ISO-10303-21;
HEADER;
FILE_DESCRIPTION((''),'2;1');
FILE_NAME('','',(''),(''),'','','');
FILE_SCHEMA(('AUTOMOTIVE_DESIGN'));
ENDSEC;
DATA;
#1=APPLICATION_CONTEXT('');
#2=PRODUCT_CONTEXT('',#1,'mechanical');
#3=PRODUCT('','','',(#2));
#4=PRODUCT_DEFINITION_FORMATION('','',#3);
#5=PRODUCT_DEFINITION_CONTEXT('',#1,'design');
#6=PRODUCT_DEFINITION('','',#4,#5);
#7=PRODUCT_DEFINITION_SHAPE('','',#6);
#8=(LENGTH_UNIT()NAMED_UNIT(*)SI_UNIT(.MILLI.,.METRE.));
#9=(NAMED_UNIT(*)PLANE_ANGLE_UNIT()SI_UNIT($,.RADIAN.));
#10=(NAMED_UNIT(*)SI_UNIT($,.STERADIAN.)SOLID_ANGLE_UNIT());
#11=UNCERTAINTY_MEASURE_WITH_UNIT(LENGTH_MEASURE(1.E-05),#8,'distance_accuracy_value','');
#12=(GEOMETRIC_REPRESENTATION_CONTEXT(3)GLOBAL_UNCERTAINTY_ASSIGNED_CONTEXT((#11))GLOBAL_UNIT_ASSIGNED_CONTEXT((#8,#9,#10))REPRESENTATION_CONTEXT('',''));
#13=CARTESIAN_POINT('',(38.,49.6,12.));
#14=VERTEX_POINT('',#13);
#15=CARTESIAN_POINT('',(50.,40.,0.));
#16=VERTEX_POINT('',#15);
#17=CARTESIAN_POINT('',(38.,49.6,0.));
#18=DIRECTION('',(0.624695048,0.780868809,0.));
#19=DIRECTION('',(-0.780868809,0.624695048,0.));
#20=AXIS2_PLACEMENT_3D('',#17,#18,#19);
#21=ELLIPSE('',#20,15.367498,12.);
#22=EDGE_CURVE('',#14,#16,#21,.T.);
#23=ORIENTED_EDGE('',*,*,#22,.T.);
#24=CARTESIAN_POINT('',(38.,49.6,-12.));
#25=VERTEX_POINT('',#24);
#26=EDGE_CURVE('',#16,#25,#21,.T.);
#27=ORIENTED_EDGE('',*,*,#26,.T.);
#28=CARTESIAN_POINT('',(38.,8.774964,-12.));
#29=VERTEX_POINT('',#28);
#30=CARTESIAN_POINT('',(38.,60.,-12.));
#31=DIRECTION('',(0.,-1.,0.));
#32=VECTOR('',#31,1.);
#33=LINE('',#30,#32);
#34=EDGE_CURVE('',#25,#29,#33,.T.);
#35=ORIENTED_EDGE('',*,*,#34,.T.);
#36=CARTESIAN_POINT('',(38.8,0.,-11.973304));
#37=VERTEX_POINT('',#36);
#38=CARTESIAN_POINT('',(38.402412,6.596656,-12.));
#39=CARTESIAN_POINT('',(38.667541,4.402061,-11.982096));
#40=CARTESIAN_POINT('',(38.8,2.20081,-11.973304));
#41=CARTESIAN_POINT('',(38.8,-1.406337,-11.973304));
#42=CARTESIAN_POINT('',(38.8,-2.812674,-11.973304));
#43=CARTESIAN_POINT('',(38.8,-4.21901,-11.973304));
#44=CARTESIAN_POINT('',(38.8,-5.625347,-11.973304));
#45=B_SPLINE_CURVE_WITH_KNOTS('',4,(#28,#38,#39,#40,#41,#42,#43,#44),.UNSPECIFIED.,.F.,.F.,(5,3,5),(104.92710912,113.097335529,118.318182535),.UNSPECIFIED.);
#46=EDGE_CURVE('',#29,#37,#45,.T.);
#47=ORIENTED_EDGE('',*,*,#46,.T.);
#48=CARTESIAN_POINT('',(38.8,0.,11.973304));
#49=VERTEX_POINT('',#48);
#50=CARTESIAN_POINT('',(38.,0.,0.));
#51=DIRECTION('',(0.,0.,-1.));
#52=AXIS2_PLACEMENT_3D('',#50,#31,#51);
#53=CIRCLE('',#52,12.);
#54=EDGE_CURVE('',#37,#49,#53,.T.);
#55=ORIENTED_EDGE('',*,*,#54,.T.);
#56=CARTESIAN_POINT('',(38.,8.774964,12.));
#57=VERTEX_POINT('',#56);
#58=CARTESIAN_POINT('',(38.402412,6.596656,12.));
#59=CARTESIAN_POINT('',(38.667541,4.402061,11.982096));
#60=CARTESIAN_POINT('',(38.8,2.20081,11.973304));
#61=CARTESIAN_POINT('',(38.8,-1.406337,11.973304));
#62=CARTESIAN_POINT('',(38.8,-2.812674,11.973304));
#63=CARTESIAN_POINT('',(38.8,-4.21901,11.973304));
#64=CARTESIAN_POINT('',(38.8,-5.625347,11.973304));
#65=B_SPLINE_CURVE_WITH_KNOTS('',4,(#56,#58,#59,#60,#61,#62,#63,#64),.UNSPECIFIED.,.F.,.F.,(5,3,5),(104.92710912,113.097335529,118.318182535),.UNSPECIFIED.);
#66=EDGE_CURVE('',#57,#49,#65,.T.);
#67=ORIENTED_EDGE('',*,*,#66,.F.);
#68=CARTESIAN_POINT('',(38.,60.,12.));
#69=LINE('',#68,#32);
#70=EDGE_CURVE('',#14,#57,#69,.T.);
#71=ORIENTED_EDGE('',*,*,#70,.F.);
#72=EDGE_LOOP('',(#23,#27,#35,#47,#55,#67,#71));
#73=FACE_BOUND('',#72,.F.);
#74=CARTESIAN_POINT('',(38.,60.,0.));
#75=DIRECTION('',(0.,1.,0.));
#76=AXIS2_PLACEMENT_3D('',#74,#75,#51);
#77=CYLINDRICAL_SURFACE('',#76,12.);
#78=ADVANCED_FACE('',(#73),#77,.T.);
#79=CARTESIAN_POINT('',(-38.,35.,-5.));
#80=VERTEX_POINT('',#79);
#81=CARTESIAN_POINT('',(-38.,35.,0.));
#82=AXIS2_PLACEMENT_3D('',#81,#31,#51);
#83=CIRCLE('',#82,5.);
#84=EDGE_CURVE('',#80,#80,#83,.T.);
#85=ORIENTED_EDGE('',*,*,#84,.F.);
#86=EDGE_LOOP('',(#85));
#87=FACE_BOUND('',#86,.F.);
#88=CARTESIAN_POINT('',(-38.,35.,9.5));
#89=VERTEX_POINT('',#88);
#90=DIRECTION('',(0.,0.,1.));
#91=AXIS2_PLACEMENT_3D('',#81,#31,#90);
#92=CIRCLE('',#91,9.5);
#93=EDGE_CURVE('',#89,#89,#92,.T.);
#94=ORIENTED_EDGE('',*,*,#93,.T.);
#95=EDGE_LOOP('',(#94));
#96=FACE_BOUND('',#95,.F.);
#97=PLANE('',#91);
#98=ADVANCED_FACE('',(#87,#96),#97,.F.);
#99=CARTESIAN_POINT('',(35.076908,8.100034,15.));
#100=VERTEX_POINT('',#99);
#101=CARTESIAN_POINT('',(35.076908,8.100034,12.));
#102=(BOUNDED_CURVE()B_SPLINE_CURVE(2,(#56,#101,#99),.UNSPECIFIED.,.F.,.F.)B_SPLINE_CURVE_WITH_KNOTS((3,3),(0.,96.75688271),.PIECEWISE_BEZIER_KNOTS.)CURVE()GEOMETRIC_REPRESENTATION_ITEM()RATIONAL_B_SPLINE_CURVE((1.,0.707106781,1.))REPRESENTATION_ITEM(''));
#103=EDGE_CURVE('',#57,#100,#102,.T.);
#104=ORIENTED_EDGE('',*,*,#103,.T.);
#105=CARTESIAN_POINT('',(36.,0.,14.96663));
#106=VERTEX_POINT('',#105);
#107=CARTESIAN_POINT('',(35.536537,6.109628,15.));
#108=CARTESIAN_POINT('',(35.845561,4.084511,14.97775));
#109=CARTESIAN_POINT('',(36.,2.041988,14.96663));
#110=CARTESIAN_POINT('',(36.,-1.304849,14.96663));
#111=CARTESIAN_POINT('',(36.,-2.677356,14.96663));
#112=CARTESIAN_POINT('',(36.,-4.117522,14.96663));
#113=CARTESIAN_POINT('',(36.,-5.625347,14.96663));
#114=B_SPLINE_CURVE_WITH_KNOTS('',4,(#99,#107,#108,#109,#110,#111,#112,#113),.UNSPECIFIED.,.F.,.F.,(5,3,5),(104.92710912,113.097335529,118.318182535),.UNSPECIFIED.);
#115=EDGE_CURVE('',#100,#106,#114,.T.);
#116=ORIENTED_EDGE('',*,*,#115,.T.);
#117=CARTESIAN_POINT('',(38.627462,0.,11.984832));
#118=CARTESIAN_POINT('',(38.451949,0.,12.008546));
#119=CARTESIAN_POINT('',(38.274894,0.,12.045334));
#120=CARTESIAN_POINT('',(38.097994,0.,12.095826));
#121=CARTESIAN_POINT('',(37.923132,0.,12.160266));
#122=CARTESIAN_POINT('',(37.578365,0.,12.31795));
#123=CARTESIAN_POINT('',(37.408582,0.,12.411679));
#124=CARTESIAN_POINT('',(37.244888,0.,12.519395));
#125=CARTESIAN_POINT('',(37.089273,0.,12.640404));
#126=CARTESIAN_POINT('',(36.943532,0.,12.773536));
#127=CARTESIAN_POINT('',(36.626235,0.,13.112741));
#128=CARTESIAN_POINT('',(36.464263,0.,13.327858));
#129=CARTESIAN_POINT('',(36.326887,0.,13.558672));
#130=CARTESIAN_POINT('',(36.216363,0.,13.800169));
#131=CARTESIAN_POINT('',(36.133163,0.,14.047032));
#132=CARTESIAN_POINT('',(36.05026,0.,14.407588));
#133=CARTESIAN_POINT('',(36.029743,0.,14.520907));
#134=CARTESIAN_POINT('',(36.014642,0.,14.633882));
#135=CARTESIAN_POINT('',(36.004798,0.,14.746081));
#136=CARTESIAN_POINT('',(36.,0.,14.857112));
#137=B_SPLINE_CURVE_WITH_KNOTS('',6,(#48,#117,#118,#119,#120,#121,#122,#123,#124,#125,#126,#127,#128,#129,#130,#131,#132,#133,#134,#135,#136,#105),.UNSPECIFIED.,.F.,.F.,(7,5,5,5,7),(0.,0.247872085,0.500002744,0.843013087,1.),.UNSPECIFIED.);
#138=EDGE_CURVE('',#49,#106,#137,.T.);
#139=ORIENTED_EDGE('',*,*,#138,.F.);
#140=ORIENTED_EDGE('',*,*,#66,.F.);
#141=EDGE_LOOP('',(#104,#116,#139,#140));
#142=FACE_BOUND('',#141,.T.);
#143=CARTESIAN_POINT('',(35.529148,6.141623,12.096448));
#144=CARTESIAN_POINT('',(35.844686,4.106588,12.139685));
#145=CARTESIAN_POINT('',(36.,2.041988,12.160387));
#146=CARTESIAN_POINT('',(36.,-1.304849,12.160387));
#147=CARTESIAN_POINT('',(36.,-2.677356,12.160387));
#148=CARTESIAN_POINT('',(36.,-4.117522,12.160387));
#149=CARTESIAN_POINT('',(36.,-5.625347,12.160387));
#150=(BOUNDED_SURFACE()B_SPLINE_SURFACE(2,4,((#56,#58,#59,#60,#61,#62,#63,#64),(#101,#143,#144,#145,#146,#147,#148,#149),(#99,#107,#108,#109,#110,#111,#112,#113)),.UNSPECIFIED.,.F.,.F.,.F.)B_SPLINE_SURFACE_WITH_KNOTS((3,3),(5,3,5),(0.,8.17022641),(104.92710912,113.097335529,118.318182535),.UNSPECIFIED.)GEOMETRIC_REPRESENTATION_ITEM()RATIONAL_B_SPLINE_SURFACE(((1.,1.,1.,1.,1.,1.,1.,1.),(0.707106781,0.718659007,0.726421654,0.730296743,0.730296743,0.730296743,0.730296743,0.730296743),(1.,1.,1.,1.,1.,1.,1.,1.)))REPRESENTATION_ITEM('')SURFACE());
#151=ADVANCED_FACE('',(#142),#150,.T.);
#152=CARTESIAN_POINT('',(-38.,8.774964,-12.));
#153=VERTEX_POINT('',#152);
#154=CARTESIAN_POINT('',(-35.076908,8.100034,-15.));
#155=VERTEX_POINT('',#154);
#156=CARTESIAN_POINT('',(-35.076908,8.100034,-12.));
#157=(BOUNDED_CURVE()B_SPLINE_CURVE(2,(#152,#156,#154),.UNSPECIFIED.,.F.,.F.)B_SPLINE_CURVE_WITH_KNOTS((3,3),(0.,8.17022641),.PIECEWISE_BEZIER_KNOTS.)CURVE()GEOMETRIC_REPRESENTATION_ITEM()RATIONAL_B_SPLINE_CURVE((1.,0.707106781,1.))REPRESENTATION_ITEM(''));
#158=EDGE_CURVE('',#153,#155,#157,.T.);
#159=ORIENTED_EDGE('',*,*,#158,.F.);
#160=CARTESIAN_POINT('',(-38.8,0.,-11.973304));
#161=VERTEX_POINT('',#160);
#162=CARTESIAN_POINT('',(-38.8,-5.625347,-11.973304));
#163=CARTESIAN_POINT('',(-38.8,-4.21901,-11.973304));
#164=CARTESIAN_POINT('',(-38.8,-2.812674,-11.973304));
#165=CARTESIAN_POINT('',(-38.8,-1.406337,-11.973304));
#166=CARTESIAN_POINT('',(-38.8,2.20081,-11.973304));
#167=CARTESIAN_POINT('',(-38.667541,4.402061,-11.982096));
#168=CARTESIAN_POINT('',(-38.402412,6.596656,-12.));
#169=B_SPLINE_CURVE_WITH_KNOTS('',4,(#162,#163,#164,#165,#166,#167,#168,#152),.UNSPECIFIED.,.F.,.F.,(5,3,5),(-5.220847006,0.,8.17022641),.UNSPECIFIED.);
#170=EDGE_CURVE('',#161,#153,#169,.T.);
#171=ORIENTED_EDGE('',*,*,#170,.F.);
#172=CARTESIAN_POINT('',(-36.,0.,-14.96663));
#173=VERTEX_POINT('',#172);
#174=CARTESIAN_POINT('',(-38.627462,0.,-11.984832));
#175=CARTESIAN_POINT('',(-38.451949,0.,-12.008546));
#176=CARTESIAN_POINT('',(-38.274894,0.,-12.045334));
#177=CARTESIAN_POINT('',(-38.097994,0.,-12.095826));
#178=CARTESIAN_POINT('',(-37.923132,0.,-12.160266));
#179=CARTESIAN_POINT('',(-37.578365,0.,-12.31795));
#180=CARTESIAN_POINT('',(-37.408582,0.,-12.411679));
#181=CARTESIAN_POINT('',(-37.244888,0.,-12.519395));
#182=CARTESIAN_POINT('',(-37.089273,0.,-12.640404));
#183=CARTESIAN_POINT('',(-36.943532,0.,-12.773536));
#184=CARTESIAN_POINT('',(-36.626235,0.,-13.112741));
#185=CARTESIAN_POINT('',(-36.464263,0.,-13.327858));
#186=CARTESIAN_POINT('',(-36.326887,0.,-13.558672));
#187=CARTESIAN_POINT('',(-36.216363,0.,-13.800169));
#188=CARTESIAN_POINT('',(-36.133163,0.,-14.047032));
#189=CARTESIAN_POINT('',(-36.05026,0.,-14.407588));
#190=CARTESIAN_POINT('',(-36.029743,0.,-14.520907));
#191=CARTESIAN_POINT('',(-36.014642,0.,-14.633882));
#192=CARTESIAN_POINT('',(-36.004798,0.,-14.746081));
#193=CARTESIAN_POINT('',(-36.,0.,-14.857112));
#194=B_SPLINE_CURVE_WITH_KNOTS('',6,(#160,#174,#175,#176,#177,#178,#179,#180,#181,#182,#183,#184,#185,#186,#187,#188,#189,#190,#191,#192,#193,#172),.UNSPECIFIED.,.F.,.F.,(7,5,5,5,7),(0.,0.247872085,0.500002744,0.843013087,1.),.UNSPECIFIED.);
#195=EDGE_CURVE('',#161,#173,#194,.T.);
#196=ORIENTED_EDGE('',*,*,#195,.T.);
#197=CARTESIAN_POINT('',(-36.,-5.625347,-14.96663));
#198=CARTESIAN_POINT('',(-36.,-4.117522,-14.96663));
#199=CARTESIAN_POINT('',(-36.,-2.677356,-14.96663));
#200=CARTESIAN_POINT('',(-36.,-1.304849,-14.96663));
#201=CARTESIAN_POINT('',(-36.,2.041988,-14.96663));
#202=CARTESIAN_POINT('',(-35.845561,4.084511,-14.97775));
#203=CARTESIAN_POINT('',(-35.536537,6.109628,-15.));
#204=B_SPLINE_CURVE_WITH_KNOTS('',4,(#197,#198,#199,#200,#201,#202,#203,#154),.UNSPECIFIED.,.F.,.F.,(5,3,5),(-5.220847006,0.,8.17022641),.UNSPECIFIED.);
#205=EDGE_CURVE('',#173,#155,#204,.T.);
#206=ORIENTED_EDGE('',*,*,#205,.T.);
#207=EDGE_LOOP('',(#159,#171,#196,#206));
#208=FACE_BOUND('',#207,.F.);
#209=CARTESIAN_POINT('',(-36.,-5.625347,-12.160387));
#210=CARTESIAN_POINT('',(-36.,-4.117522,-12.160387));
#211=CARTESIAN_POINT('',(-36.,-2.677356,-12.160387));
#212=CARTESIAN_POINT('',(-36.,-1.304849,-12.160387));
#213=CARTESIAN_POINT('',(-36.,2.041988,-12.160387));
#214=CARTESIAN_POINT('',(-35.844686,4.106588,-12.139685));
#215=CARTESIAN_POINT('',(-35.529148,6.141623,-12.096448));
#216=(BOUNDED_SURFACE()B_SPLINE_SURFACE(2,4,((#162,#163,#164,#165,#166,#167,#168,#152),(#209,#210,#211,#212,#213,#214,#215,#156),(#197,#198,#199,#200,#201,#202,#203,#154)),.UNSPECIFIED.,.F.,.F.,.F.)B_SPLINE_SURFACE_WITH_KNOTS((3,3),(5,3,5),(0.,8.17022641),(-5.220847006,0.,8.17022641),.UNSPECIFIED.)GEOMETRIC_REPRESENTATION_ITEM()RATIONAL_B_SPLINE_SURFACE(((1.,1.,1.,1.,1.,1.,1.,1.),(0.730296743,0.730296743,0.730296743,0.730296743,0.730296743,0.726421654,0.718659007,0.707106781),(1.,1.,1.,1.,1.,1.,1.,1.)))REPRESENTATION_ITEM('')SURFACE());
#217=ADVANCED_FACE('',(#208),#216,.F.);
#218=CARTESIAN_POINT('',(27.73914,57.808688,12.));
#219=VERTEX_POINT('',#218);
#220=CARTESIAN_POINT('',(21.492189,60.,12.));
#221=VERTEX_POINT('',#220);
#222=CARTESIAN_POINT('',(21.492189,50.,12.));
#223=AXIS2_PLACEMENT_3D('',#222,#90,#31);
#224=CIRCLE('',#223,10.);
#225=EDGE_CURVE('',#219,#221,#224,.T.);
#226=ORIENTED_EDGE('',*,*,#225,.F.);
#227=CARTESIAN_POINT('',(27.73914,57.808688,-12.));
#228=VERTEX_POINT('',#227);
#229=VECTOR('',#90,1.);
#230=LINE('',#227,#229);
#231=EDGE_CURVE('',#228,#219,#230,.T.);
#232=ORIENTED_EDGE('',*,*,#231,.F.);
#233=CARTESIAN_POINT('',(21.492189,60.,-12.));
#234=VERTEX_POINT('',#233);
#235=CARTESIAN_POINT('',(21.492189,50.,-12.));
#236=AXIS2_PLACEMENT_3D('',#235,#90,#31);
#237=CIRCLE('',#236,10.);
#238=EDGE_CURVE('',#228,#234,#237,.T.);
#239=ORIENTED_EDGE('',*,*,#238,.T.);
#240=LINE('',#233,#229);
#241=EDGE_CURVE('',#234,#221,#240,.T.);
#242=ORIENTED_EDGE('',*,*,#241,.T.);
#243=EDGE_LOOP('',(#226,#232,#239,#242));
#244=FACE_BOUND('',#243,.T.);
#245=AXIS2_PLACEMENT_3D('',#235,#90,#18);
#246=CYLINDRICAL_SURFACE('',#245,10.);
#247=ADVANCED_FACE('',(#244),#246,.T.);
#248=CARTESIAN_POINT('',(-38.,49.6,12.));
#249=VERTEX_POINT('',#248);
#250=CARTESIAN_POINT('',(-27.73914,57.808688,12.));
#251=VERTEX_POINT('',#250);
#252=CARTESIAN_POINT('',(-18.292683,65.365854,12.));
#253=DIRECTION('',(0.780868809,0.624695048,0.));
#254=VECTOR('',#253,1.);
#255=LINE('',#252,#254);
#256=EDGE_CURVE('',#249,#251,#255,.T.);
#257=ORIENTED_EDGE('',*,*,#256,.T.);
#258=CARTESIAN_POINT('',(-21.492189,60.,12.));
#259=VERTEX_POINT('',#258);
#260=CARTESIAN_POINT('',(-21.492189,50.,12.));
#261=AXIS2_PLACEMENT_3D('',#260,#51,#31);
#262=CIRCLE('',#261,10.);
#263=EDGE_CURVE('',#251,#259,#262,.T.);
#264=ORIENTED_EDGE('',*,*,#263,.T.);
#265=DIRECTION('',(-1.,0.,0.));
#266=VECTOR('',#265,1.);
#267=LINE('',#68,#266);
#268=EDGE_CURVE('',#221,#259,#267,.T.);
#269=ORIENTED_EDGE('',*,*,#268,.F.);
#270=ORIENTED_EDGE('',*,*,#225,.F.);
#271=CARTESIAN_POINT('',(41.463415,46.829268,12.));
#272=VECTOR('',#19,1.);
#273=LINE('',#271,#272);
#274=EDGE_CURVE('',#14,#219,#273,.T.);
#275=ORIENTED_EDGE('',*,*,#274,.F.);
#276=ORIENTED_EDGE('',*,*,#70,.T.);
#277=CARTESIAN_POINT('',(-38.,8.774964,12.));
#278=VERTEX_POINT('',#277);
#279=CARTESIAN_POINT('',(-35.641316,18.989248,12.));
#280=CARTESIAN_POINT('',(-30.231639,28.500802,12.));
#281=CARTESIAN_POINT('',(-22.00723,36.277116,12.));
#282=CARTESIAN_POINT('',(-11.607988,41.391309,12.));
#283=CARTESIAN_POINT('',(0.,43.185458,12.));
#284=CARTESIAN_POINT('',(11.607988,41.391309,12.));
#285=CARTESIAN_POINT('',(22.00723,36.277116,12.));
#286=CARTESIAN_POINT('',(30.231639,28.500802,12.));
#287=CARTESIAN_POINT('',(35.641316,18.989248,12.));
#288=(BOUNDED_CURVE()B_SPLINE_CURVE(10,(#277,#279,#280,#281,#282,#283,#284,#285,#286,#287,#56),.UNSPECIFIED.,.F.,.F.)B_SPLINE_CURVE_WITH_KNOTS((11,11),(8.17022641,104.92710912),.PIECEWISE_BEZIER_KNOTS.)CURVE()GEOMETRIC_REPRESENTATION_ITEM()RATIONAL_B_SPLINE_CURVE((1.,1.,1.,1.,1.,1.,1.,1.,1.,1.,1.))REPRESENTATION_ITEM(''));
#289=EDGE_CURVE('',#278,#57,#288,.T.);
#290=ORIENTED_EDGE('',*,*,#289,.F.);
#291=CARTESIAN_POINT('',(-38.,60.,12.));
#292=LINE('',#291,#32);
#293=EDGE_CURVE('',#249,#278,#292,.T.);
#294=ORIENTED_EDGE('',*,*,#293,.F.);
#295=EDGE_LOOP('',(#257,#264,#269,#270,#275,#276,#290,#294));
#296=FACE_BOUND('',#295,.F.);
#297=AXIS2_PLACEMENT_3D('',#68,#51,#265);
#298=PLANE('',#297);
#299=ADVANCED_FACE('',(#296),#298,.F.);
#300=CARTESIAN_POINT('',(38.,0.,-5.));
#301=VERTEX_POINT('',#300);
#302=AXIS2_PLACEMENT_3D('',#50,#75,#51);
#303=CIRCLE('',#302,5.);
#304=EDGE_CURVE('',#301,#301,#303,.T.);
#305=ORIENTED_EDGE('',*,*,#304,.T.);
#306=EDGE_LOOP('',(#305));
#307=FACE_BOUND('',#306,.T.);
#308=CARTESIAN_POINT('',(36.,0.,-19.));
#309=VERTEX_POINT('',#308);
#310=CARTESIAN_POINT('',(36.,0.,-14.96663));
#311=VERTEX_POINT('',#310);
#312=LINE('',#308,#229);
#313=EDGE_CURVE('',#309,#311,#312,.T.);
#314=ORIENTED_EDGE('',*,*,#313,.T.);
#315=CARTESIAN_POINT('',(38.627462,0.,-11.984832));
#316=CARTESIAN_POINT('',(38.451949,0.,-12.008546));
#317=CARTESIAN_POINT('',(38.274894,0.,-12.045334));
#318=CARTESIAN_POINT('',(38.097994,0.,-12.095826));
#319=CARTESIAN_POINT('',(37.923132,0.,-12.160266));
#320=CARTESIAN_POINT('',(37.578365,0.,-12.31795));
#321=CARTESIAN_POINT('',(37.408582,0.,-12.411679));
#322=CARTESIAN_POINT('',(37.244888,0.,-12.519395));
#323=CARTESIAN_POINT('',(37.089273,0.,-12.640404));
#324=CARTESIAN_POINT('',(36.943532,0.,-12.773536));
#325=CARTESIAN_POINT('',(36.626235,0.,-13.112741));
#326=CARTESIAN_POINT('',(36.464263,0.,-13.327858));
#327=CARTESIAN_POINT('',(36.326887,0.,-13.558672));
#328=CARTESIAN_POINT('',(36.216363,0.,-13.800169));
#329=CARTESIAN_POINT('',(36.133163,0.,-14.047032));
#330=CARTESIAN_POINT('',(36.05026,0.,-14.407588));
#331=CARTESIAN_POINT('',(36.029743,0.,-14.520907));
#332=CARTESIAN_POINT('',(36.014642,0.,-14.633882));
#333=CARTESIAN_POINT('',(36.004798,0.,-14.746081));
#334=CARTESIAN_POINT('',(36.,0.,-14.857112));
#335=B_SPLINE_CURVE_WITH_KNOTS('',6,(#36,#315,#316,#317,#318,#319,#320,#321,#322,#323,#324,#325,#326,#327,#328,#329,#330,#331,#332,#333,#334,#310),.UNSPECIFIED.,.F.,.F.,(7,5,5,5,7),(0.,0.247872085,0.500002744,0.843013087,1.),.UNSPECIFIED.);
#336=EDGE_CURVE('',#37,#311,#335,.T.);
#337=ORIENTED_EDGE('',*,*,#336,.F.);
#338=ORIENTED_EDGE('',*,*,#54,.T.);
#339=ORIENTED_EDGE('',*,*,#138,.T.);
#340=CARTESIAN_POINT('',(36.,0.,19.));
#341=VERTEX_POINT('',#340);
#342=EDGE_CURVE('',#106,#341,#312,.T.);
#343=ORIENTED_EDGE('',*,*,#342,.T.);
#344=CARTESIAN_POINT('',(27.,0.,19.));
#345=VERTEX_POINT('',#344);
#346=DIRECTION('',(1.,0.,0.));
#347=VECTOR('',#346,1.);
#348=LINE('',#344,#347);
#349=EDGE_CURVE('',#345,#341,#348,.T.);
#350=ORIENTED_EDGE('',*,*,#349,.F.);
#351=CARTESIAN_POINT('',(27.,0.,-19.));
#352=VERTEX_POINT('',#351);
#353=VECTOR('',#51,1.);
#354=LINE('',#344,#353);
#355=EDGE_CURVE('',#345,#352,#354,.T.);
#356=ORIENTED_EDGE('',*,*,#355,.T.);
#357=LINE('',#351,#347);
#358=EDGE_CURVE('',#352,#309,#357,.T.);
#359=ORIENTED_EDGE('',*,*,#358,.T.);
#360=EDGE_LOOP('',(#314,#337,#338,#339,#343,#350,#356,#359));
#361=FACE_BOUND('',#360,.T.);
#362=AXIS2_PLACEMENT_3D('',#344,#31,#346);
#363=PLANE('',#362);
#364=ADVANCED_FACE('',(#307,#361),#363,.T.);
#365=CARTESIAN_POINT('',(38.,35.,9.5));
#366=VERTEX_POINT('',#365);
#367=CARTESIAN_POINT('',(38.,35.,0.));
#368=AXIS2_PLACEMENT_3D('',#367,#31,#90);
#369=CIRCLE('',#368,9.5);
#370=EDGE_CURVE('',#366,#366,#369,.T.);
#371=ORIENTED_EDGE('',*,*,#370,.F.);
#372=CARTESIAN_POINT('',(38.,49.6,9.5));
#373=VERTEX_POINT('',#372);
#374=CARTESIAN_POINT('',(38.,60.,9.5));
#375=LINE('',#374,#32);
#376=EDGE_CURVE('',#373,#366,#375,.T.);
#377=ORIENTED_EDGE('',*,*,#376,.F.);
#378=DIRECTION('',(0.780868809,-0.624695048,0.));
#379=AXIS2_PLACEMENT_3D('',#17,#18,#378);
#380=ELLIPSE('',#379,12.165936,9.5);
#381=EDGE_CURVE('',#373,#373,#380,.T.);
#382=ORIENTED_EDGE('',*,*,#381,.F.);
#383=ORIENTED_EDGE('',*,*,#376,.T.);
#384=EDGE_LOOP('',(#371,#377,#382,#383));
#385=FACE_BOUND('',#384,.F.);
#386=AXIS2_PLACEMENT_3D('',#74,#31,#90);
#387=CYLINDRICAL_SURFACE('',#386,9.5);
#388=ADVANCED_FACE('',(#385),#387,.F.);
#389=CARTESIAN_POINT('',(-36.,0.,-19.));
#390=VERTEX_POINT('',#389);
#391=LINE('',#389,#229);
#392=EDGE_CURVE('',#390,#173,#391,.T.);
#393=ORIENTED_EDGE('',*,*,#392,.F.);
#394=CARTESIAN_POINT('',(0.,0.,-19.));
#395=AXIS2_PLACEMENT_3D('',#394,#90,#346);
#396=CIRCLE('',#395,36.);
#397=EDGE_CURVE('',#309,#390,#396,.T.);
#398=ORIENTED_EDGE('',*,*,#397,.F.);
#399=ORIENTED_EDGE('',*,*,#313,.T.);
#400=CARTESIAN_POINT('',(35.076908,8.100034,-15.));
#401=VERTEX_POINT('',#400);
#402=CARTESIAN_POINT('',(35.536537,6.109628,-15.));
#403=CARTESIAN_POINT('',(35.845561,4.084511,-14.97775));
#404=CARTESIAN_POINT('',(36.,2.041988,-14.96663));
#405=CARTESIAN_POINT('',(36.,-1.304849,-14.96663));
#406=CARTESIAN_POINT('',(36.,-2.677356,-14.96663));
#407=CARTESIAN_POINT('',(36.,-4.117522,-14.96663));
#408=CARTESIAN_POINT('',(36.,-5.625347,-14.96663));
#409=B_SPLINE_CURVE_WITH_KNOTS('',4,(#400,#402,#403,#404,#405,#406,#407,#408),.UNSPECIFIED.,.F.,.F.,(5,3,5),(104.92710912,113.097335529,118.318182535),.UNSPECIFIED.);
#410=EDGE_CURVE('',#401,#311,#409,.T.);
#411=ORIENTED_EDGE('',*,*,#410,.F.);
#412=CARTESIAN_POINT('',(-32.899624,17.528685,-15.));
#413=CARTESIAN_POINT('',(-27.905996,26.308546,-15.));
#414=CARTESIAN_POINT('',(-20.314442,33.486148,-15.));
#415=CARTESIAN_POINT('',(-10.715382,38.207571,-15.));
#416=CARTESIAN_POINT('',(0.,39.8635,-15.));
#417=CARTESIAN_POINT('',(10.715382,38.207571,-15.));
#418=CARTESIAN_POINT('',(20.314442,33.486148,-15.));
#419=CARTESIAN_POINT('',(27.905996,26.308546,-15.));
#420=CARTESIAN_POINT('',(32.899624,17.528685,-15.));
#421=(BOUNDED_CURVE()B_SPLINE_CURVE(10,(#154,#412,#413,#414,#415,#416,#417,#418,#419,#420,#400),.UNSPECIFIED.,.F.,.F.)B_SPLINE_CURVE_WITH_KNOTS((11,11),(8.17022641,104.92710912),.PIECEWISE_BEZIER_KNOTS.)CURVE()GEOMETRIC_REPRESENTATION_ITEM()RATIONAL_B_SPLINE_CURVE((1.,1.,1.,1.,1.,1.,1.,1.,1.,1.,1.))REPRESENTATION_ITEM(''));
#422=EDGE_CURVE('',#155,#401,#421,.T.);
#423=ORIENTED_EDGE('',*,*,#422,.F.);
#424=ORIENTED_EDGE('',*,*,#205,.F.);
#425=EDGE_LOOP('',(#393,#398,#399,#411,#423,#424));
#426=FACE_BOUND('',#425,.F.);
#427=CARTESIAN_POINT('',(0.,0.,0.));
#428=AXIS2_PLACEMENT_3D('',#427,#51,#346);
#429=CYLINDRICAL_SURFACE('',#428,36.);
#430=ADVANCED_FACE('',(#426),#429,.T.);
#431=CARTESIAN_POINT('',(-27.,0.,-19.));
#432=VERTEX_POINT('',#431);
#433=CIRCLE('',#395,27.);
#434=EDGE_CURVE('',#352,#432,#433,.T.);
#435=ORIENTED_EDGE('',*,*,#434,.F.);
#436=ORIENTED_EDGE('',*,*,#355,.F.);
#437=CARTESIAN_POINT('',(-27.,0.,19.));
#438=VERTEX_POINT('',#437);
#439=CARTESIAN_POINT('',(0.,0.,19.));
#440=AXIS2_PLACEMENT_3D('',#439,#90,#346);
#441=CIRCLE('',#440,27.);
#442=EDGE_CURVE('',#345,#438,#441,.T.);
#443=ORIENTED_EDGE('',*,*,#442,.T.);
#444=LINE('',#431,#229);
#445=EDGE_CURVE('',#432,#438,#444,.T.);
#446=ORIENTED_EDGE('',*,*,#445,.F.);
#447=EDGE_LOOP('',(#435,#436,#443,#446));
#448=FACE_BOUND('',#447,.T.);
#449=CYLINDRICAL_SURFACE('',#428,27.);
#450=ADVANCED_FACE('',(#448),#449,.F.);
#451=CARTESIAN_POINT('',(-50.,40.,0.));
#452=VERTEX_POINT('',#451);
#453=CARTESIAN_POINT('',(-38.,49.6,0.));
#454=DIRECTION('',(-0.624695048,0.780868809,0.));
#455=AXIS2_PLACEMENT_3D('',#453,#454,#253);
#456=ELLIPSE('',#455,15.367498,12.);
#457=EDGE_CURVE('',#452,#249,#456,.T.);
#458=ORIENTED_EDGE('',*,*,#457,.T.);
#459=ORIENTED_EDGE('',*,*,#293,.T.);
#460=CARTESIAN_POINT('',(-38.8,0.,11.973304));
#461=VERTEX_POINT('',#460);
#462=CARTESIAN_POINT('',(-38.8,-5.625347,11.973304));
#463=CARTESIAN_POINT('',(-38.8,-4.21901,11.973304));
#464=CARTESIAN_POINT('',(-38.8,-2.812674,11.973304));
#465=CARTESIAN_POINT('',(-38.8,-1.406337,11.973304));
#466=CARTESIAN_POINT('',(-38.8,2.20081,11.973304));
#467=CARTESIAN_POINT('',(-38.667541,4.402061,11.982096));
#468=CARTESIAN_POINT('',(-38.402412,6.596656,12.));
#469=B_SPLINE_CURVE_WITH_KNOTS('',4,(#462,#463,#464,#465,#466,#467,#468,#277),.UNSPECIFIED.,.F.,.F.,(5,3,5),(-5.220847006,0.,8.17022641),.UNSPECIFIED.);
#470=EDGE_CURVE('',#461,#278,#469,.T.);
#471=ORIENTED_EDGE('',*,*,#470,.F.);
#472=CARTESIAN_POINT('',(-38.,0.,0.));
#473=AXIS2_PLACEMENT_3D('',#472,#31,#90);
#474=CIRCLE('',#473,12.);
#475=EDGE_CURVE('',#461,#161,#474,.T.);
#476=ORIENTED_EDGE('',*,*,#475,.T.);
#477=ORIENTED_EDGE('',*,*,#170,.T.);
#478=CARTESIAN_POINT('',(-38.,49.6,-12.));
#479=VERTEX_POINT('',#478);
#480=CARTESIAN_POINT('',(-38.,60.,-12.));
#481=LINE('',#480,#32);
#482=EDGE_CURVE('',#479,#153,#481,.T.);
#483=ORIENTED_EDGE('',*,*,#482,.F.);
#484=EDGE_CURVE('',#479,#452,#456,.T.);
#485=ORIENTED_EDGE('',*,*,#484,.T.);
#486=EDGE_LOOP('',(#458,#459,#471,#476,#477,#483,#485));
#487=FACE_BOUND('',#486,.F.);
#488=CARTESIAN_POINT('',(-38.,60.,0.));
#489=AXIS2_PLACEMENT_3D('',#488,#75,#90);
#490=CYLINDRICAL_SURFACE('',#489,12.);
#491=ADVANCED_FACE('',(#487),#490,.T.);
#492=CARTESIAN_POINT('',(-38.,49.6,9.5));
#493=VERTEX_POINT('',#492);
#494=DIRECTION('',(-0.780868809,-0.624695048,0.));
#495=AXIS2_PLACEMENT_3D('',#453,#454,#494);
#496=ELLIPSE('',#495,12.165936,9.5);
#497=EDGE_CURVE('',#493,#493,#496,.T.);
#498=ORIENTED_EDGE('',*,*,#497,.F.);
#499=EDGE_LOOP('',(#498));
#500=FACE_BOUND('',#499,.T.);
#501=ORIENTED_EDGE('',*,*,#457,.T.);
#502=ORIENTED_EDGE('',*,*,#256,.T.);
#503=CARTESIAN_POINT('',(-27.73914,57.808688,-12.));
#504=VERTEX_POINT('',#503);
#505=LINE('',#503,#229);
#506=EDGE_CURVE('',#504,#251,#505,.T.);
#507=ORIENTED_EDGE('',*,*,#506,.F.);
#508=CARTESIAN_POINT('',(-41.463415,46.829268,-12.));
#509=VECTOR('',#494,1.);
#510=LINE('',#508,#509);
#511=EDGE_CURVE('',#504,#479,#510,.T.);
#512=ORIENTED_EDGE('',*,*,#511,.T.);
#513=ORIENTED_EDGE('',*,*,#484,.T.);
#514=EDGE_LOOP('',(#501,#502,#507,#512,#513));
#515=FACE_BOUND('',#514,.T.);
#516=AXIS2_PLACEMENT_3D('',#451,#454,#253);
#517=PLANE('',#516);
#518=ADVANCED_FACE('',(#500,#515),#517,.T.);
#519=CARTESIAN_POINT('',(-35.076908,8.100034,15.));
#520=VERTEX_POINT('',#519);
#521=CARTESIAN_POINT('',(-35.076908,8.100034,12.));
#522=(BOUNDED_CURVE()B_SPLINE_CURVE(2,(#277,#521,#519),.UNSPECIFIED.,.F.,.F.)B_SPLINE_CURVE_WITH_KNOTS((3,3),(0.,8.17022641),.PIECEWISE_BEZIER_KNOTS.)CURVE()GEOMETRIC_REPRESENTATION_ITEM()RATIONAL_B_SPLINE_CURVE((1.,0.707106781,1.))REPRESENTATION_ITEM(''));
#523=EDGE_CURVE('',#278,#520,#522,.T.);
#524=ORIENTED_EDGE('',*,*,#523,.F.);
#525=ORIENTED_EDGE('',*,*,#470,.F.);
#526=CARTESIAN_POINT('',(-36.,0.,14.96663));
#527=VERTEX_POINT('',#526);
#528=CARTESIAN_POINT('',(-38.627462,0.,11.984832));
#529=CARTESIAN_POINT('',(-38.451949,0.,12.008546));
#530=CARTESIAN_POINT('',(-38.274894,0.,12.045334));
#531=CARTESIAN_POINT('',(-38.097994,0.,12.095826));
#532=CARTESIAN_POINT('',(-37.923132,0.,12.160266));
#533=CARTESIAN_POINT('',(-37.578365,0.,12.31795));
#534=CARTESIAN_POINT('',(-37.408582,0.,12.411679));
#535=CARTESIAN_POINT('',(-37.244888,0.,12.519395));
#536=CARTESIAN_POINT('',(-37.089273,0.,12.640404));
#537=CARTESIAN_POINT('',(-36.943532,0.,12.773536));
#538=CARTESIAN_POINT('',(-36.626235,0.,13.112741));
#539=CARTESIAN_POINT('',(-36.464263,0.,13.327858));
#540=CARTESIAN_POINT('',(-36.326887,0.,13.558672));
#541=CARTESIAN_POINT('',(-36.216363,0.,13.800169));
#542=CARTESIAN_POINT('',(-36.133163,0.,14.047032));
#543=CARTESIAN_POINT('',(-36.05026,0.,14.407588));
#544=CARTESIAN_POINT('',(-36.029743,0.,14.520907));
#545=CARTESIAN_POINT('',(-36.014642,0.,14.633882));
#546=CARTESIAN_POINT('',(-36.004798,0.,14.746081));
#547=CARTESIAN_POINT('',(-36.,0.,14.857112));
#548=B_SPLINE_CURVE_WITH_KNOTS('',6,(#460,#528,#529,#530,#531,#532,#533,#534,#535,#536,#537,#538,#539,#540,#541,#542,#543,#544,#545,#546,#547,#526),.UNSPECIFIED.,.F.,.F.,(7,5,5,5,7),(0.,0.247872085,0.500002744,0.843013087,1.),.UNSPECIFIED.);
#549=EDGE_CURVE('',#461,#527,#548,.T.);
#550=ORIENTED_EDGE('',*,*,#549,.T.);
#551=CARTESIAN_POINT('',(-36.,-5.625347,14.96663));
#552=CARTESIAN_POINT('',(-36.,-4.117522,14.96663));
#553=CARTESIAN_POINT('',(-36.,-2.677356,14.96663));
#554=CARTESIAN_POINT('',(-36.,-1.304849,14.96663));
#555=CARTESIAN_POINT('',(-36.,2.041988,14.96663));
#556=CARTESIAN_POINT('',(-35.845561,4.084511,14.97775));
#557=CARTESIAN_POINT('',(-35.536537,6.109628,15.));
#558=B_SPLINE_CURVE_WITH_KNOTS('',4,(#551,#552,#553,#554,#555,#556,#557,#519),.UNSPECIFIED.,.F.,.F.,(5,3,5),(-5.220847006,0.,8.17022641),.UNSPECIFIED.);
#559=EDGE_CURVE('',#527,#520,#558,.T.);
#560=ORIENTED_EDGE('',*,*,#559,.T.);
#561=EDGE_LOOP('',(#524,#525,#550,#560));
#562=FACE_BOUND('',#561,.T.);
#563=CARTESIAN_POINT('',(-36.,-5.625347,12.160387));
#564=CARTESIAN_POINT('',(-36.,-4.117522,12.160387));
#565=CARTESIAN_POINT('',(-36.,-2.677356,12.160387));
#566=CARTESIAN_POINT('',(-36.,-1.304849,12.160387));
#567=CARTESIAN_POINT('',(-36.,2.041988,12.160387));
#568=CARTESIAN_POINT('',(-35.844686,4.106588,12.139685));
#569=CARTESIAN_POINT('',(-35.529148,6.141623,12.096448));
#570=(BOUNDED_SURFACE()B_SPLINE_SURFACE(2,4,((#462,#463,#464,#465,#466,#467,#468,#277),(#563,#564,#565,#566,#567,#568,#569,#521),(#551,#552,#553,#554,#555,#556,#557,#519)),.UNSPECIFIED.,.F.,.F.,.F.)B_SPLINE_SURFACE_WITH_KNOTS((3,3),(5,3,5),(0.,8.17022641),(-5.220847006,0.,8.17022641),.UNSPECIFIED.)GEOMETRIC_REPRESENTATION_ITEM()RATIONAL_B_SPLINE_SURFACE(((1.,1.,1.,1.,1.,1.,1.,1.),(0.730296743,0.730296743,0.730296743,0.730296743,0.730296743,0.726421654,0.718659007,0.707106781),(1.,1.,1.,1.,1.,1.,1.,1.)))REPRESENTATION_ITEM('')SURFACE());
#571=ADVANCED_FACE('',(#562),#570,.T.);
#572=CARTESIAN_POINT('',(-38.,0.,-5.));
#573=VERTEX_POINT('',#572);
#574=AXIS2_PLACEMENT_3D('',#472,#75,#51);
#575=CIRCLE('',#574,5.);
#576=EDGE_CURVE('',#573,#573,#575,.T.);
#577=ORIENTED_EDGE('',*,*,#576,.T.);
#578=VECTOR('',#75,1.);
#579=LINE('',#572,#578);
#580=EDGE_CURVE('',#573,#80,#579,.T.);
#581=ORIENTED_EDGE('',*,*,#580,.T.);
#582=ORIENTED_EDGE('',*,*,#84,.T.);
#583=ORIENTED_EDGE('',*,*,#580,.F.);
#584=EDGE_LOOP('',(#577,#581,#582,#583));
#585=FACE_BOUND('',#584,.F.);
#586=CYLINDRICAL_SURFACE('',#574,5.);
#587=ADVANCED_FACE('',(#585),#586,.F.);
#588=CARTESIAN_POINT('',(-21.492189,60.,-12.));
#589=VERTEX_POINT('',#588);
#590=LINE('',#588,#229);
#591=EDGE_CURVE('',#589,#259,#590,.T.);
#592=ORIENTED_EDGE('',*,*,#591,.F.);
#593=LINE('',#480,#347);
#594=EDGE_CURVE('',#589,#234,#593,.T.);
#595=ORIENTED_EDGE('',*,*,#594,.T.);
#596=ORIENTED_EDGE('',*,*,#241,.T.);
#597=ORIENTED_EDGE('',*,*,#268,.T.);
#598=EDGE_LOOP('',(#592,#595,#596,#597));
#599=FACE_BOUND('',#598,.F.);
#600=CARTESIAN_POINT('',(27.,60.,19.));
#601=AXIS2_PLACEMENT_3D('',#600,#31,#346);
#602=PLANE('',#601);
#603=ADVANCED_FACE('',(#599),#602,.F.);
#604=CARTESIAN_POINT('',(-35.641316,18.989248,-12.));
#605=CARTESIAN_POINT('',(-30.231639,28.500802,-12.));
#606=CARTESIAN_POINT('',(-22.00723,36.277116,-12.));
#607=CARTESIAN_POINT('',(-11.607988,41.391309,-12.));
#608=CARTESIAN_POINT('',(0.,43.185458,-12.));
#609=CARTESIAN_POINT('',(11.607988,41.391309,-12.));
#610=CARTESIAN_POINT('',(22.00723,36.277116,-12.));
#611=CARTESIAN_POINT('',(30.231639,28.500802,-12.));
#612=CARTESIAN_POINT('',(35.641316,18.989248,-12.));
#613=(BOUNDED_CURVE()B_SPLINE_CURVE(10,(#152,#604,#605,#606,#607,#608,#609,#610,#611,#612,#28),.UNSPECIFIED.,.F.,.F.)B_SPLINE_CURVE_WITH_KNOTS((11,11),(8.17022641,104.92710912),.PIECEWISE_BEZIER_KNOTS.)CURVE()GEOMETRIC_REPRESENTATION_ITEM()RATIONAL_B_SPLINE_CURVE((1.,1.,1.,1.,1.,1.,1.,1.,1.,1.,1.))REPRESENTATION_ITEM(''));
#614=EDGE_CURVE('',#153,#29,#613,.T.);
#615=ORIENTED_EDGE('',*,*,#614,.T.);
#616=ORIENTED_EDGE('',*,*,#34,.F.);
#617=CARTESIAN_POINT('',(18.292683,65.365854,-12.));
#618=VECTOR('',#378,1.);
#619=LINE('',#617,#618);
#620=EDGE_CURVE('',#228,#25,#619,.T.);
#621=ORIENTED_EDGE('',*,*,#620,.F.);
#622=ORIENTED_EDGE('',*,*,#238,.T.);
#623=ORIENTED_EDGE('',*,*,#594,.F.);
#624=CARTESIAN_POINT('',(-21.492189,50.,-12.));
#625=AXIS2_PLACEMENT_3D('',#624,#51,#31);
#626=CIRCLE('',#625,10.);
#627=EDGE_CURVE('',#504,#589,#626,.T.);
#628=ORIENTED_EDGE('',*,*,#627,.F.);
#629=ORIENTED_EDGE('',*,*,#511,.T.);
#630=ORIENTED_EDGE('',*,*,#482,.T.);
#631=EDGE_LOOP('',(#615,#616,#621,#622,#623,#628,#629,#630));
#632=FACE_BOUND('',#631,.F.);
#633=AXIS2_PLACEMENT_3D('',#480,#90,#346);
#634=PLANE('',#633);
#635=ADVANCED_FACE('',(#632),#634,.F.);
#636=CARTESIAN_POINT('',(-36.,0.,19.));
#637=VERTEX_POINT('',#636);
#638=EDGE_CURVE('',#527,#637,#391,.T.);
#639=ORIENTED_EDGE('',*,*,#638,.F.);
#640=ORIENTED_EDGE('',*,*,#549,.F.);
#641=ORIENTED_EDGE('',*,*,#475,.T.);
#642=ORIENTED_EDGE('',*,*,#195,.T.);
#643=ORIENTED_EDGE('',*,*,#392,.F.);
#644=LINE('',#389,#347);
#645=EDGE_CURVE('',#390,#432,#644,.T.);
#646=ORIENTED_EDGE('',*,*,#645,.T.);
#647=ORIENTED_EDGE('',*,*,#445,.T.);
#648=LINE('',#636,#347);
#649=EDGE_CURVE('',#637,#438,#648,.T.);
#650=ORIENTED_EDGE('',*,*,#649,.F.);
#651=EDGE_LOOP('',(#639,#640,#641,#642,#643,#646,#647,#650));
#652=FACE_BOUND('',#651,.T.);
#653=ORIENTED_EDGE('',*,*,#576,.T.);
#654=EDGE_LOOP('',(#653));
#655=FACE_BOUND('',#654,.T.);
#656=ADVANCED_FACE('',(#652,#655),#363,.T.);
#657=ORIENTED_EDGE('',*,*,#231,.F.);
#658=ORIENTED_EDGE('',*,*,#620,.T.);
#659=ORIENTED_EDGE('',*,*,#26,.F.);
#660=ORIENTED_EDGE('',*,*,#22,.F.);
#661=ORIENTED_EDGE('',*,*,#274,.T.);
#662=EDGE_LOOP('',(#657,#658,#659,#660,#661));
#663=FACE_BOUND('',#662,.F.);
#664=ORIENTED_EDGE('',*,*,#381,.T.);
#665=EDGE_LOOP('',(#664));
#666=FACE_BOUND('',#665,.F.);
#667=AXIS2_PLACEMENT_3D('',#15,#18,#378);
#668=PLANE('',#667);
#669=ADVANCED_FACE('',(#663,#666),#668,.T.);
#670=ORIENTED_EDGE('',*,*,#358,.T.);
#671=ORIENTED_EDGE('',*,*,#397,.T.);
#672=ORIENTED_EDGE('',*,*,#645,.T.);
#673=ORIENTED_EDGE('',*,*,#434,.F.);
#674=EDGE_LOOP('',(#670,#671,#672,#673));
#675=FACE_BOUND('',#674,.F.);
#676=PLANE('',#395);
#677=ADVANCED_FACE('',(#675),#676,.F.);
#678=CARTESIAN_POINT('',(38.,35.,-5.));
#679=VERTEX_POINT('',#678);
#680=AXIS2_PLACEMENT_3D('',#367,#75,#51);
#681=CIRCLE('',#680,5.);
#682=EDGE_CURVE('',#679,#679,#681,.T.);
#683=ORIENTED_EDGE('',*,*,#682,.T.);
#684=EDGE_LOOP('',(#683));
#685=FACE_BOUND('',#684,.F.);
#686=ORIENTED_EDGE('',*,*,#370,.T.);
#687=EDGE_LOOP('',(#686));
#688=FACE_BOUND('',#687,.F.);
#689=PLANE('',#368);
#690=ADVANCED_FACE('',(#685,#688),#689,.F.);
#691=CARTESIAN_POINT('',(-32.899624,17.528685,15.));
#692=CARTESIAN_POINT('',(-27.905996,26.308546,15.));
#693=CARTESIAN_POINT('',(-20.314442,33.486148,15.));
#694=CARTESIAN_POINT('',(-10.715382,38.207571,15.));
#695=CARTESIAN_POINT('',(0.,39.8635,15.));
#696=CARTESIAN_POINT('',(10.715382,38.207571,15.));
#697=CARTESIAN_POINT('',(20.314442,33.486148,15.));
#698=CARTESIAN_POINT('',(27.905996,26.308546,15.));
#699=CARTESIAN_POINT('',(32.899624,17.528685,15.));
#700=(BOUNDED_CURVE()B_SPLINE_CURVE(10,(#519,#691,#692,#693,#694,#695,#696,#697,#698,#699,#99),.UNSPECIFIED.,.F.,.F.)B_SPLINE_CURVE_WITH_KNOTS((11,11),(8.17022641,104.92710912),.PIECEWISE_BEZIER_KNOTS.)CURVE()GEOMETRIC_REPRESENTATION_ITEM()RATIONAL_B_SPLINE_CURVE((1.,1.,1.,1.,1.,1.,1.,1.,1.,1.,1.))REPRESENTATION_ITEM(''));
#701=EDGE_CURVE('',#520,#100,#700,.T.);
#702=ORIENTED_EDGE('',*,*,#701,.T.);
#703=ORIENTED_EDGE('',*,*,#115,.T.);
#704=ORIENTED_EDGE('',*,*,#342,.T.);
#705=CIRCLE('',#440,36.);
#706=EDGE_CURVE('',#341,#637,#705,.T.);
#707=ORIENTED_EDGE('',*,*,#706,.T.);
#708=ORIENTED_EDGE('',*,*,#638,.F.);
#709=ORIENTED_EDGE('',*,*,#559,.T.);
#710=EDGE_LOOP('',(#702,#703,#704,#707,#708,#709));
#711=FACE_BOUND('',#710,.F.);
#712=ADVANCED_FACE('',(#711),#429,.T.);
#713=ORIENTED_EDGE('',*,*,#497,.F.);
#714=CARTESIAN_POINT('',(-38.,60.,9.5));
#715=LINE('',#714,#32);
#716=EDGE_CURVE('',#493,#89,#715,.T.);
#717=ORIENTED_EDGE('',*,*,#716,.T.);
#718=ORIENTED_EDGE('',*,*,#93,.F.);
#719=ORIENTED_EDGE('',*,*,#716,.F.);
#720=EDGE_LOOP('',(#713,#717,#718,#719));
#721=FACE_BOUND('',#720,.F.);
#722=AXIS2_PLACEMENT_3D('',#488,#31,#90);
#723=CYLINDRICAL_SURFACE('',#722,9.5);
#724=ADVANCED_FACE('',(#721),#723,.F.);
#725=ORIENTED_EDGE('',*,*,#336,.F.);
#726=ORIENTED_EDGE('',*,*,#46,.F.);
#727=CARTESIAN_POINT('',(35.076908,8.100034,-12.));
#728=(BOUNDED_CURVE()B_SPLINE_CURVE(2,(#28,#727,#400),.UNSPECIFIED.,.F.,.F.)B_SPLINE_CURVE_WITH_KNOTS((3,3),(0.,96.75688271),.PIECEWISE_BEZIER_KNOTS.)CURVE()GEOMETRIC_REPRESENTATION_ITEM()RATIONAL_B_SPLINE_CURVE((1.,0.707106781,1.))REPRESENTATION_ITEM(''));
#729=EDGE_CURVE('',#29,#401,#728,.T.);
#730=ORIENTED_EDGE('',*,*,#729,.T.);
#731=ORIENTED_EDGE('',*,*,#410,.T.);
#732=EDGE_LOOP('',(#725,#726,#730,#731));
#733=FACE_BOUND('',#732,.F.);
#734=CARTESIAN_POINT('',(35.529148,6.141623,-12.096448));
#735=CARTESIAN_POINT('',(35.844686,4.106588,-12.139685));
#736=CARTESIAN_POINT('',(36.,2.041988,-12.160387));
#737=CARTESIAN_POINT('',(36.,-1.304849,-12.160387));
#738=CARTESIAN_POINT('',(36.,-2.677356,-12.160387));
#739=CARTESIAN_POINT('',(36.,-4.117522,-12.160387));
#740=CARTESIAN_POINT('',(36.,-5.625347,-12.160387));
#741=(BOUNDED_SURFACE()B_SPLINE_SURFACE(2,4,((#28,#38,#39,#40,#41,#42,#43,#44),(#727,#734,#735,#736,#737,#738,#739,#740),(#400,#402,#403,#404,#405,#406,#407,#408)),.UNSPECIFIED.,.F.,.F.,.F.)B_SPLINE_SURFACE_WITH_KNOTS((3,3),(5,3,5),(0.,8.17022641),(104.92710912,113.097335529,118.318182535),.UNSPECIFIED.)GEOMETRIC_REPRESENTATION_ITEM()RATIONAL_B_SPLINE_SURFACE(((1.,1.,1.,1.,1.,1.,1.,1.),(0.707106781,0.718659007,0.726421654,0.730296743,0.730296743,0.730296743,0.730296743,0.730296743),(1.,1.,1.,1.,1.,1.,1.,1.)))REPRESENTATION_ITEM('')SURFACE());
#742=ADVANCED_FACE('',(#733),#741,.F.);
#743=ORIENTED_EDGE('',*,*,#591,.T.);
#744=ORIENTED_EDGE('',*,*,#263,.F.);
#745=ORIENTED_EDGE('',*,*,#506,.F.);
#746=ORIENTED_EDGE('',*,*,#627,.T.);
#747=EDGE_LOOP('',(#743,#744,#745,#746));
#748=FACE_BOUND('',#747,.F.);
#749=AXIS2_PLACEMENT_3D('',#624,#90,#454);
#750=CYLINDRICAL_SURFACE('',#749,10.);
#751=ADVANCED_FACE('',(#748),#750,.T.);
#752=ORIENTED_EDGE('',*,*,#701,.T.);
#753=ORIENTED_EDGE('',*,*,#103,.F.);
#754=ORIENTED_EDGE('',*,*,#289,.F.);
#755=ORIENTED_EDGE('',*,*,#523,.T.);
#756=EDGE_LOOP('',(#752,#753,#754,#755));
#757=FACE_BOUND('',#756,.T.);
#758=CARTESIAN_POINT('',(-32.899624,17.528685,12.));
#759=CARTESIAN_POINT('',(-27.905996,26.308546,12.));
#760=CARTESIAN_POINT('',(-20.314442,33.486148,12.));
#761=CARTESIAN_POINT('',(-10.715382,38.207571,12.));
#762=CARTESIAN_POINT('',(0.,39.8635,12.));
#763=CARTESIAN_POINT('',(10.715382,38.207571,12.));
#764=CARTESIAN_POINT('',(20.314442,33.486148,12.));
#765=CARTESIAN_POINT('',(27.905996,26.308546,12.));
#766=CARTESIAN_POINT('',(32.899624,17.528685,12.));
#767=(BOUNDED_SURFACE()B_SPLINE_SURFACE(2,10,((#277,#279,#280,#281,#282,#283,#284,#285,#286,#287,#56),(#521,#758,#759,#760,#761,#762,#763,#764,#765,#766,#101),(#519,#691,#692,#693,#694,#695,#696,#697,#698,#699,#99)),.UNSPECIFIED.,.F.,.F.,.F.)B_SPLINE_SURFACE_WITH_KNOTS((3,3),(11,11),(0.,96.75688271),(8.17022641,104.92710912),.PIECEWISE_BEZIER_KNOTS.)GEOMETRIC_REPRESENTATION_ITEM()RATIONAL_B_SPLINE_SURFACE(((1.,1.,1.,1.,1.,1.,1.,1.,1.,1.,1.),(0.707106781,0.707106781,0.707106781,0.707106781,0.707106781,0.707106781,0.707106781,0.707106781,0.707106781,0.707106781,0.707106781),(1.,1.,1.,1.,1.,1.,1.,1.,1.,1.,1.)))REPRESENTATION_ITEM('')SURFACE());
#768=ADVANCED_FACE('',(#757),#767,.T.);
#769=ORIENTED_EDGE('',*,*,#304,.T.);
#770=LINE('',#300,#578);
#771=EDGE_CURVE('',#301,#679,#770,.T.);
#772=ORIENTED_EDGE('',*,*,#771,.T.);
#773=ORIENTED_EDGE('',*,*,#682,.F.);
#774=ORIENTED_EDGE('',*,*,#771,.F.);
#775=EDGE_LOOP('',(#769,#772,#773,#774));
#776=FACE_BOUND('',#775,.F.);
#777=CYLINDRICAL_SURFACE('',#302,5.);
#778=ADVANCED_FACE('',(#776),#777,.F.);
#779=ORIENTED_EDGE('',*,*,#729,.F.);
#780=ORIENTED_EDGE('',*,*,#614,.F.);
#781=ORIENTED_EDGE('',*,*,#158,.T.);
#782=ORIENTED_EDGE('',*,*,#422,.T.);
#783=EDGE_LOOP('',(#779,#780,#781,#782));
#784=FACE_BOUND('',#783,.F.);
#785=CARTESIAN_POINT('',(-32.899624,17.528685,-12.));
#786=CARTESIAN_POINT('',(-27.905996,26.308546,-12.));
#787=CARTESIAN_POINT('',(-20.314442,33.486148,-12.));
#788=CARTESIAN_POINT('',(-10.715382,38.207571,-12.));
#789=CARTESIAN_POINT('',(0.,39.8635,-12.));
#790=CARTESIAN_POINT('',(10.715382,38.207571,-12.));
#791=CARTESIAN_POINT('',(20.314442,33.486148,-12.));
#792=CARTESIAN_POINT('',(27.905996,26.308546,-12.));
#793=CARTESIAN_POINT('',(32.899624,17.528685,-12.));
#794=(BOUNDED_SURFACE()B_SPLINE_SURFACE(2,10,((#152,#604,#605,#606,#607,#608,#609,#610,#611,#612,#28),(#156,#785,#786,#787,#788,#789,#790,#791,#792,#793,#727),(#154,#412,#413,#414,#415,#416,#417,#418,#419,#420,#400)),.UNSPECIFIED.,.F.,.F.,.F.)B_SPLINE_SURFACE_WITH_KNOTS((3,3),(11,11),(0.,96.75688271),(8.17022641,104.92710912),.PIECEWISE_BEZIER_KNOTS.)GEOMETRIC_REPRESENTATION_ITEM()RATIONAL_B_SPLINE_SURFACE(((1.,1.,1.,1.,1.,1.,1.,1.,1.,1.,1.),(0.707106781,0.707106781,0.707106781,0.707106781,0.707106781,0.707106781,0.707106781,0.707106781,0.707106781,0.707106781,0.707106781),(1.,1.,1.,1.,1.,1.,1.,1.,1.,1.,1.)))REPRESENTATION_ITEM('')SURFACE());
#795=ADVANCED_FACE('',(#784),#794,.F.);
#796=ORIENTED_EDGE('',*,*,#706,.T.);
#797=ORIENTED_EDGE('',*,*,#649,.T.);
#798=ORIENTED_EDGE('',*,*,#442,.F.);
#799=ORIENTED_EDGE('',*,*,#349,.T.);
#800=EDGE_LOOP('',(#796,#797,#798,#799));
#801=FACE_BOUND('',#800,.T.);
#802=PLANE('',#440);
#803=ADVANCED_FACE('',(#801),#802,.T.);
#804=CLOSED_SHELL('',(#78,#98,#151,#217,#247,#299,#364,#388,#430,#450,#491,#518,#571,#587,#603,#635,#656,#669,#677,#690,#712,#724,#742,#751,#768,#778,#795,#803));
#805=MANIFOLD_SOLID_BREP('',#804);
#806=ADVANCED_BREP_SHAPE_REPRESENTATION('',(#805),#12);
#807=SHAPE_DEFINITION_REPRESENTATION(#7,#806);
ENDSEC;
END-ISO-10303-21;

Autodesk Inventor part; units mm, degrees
ref_plane "YZ Plane" through (0, 0, 0) normal (1, 0, 0) x (0, 1, 0)
ref_plane "XZ Plane" through (0, 0, 0) normal (0, 1, 0) x (-1, 0, 0)
sketch "Sketch1" plane through (0, 0, 0) normal (0, 0, 1) x (1, 0, 0)
  arc A0 (36, 0) -> (-36, 0) centre (0, 0) ccw
  arc A1 (27, 0) -> (-27, 0) centre (0, 0) ccw
  line L0 (-36, 0) -> (-27, 0)
  line L1 (27, 0) -> (36, 0)
  dimension "d0" = 72
  dimension "d1" = 54
extrude "Extrusion1" add sketch "Sketch1" along normal mid plane 38
ref_plane "Work Plane1" through (27, 60, 19) normal (0, -1, 0) x (1, 0, 0)
sketch "Sketch2" plane through (27, 60, 19) normal (0, -1, 0) x (1, 0, 0)
  line L0 (11, -19) -> (-65, -19) construction
  line L1 (11, -7) -> (-65, -7)
  line L2 (-65, -31) -> (11, -31)
  arc A0 (11, -31) -> (11, -7) centre (11, -19) ccw
  arc A1 (-65, -7) -> (-65, -31) centre (-65, -19) ccw
  line L3 (0, -38) -> (-54, -38) construction
  line L4 (9, 0) -> (9, -38) construction
  point P0 (-27, -19)
  point P1 (-27, -19)
  dimension "d5" = 76
  dimension "d6" = 12
extrude "Extrusion2" add sketch "Sketch2" along normal up to surface (60 mm away)
sketch "Sketch3" plane through (0, 0, 0) normal (0, 0, 1) x (1, 0, 0)
  arc A0 (27, 0) -> (-27, 0) centre (0, 0) ccw projected
  line L0 (27, 0) -> (-27, 0) projected
extrude "Extrusion3" cut sketch "Sketch3" along normal through all both and the other way through all
sketch "Sketch4" plane through (0, 0, 0) normal (0, 0, 1) x (1, 0, 0)
  line L0 (38, 60) -> (-38, 60) projected
  line L1 (-50, 60) -> (-38, 60) projected
  line L2 (-50, 60) -> (-50, 0) projected
  line L3 (-50, 40) -> (-25, 60)
  line L4 (-50, 60) -> (-50, 40)
  point P0 (0, 0)
  dimension "d11" = 25
  dimension "d12" = 20
extrude "Extrusion4" cut sketch "Sketch4" along normal through all both and the other way through all
mirror "Mirror1" about plane through (0, 0, 0) normal (1, 0, 0) of "Extrusion4"
fillet "Fillet1" radius 3 2 edges at (0, 36, -12) (0, 36, 12)
fillet "Fillet2" radius 10 2 edges at (-25, 60, 0) (25, 60, 0)
sketch "Sketch5" plane through (-36, 0, 19) normal (0, -1, 0) x (1, 0, 0)
  arc A0 (-2.8, -7.0267) -> (-2.8, -30.9733) centre (-2, -19) ccw projected
  point P0 (36, -19)
hole "Hole1" at (-38, 0, 0) direction (0, 1, 0) diameter 10 end through all
sketch "Sketch6" plane through (27, 0, -19) normal (0, -1, 0) x (1, 0, 0)
  arc A0 (11.8, 7.0267) -> (11.8, 30.9733) centre (11, 19) ccw projected
  point P0 (-27, 19)
hole "Hole2" at (38, 0, 0) direction (0, 1, 0) diameter 10 end through all
sketch "Sketch7" plane through (27, 60, 19) normal (0, 1, 0) x (1, 0, 0)
  circle A0 centre (-65, 19) radius 5 projected
  circle A1 centre (11, 19) radius 5 projected
  circle A2 centre (-65, 19) radius 5 projected
  point P0 (-27, 19)
hole "Hole3" at (-38, 60, 0) at (38, 60, 0) direction (0, -1, 0) diameter 10 end through all counterbore diameter 19 counterbore depth 25
equation "\"d22\" = Thickness"
equation "\"BendRadius\" = Thickness"
equation "\"BendReliefWidth\" = Thickness"
equation "\"BendReliefDepth\" = 0.5 * Thickness"
equation "\"CornerReliefSize\" = 4 * Thickness"
equation "\"MinimumRemnant\" = 2 * Thickness"
equation "\"TransitionRadius\" = BendRadius"
equation "\"JacobiRadiusSize\" = BendRadius"
equation "\"GapSize\" = Thickness"
equation "\"Thickness\" = 0.5"
properties part number "Part4 CONNECTING CAP" material "Stainless Steel"
